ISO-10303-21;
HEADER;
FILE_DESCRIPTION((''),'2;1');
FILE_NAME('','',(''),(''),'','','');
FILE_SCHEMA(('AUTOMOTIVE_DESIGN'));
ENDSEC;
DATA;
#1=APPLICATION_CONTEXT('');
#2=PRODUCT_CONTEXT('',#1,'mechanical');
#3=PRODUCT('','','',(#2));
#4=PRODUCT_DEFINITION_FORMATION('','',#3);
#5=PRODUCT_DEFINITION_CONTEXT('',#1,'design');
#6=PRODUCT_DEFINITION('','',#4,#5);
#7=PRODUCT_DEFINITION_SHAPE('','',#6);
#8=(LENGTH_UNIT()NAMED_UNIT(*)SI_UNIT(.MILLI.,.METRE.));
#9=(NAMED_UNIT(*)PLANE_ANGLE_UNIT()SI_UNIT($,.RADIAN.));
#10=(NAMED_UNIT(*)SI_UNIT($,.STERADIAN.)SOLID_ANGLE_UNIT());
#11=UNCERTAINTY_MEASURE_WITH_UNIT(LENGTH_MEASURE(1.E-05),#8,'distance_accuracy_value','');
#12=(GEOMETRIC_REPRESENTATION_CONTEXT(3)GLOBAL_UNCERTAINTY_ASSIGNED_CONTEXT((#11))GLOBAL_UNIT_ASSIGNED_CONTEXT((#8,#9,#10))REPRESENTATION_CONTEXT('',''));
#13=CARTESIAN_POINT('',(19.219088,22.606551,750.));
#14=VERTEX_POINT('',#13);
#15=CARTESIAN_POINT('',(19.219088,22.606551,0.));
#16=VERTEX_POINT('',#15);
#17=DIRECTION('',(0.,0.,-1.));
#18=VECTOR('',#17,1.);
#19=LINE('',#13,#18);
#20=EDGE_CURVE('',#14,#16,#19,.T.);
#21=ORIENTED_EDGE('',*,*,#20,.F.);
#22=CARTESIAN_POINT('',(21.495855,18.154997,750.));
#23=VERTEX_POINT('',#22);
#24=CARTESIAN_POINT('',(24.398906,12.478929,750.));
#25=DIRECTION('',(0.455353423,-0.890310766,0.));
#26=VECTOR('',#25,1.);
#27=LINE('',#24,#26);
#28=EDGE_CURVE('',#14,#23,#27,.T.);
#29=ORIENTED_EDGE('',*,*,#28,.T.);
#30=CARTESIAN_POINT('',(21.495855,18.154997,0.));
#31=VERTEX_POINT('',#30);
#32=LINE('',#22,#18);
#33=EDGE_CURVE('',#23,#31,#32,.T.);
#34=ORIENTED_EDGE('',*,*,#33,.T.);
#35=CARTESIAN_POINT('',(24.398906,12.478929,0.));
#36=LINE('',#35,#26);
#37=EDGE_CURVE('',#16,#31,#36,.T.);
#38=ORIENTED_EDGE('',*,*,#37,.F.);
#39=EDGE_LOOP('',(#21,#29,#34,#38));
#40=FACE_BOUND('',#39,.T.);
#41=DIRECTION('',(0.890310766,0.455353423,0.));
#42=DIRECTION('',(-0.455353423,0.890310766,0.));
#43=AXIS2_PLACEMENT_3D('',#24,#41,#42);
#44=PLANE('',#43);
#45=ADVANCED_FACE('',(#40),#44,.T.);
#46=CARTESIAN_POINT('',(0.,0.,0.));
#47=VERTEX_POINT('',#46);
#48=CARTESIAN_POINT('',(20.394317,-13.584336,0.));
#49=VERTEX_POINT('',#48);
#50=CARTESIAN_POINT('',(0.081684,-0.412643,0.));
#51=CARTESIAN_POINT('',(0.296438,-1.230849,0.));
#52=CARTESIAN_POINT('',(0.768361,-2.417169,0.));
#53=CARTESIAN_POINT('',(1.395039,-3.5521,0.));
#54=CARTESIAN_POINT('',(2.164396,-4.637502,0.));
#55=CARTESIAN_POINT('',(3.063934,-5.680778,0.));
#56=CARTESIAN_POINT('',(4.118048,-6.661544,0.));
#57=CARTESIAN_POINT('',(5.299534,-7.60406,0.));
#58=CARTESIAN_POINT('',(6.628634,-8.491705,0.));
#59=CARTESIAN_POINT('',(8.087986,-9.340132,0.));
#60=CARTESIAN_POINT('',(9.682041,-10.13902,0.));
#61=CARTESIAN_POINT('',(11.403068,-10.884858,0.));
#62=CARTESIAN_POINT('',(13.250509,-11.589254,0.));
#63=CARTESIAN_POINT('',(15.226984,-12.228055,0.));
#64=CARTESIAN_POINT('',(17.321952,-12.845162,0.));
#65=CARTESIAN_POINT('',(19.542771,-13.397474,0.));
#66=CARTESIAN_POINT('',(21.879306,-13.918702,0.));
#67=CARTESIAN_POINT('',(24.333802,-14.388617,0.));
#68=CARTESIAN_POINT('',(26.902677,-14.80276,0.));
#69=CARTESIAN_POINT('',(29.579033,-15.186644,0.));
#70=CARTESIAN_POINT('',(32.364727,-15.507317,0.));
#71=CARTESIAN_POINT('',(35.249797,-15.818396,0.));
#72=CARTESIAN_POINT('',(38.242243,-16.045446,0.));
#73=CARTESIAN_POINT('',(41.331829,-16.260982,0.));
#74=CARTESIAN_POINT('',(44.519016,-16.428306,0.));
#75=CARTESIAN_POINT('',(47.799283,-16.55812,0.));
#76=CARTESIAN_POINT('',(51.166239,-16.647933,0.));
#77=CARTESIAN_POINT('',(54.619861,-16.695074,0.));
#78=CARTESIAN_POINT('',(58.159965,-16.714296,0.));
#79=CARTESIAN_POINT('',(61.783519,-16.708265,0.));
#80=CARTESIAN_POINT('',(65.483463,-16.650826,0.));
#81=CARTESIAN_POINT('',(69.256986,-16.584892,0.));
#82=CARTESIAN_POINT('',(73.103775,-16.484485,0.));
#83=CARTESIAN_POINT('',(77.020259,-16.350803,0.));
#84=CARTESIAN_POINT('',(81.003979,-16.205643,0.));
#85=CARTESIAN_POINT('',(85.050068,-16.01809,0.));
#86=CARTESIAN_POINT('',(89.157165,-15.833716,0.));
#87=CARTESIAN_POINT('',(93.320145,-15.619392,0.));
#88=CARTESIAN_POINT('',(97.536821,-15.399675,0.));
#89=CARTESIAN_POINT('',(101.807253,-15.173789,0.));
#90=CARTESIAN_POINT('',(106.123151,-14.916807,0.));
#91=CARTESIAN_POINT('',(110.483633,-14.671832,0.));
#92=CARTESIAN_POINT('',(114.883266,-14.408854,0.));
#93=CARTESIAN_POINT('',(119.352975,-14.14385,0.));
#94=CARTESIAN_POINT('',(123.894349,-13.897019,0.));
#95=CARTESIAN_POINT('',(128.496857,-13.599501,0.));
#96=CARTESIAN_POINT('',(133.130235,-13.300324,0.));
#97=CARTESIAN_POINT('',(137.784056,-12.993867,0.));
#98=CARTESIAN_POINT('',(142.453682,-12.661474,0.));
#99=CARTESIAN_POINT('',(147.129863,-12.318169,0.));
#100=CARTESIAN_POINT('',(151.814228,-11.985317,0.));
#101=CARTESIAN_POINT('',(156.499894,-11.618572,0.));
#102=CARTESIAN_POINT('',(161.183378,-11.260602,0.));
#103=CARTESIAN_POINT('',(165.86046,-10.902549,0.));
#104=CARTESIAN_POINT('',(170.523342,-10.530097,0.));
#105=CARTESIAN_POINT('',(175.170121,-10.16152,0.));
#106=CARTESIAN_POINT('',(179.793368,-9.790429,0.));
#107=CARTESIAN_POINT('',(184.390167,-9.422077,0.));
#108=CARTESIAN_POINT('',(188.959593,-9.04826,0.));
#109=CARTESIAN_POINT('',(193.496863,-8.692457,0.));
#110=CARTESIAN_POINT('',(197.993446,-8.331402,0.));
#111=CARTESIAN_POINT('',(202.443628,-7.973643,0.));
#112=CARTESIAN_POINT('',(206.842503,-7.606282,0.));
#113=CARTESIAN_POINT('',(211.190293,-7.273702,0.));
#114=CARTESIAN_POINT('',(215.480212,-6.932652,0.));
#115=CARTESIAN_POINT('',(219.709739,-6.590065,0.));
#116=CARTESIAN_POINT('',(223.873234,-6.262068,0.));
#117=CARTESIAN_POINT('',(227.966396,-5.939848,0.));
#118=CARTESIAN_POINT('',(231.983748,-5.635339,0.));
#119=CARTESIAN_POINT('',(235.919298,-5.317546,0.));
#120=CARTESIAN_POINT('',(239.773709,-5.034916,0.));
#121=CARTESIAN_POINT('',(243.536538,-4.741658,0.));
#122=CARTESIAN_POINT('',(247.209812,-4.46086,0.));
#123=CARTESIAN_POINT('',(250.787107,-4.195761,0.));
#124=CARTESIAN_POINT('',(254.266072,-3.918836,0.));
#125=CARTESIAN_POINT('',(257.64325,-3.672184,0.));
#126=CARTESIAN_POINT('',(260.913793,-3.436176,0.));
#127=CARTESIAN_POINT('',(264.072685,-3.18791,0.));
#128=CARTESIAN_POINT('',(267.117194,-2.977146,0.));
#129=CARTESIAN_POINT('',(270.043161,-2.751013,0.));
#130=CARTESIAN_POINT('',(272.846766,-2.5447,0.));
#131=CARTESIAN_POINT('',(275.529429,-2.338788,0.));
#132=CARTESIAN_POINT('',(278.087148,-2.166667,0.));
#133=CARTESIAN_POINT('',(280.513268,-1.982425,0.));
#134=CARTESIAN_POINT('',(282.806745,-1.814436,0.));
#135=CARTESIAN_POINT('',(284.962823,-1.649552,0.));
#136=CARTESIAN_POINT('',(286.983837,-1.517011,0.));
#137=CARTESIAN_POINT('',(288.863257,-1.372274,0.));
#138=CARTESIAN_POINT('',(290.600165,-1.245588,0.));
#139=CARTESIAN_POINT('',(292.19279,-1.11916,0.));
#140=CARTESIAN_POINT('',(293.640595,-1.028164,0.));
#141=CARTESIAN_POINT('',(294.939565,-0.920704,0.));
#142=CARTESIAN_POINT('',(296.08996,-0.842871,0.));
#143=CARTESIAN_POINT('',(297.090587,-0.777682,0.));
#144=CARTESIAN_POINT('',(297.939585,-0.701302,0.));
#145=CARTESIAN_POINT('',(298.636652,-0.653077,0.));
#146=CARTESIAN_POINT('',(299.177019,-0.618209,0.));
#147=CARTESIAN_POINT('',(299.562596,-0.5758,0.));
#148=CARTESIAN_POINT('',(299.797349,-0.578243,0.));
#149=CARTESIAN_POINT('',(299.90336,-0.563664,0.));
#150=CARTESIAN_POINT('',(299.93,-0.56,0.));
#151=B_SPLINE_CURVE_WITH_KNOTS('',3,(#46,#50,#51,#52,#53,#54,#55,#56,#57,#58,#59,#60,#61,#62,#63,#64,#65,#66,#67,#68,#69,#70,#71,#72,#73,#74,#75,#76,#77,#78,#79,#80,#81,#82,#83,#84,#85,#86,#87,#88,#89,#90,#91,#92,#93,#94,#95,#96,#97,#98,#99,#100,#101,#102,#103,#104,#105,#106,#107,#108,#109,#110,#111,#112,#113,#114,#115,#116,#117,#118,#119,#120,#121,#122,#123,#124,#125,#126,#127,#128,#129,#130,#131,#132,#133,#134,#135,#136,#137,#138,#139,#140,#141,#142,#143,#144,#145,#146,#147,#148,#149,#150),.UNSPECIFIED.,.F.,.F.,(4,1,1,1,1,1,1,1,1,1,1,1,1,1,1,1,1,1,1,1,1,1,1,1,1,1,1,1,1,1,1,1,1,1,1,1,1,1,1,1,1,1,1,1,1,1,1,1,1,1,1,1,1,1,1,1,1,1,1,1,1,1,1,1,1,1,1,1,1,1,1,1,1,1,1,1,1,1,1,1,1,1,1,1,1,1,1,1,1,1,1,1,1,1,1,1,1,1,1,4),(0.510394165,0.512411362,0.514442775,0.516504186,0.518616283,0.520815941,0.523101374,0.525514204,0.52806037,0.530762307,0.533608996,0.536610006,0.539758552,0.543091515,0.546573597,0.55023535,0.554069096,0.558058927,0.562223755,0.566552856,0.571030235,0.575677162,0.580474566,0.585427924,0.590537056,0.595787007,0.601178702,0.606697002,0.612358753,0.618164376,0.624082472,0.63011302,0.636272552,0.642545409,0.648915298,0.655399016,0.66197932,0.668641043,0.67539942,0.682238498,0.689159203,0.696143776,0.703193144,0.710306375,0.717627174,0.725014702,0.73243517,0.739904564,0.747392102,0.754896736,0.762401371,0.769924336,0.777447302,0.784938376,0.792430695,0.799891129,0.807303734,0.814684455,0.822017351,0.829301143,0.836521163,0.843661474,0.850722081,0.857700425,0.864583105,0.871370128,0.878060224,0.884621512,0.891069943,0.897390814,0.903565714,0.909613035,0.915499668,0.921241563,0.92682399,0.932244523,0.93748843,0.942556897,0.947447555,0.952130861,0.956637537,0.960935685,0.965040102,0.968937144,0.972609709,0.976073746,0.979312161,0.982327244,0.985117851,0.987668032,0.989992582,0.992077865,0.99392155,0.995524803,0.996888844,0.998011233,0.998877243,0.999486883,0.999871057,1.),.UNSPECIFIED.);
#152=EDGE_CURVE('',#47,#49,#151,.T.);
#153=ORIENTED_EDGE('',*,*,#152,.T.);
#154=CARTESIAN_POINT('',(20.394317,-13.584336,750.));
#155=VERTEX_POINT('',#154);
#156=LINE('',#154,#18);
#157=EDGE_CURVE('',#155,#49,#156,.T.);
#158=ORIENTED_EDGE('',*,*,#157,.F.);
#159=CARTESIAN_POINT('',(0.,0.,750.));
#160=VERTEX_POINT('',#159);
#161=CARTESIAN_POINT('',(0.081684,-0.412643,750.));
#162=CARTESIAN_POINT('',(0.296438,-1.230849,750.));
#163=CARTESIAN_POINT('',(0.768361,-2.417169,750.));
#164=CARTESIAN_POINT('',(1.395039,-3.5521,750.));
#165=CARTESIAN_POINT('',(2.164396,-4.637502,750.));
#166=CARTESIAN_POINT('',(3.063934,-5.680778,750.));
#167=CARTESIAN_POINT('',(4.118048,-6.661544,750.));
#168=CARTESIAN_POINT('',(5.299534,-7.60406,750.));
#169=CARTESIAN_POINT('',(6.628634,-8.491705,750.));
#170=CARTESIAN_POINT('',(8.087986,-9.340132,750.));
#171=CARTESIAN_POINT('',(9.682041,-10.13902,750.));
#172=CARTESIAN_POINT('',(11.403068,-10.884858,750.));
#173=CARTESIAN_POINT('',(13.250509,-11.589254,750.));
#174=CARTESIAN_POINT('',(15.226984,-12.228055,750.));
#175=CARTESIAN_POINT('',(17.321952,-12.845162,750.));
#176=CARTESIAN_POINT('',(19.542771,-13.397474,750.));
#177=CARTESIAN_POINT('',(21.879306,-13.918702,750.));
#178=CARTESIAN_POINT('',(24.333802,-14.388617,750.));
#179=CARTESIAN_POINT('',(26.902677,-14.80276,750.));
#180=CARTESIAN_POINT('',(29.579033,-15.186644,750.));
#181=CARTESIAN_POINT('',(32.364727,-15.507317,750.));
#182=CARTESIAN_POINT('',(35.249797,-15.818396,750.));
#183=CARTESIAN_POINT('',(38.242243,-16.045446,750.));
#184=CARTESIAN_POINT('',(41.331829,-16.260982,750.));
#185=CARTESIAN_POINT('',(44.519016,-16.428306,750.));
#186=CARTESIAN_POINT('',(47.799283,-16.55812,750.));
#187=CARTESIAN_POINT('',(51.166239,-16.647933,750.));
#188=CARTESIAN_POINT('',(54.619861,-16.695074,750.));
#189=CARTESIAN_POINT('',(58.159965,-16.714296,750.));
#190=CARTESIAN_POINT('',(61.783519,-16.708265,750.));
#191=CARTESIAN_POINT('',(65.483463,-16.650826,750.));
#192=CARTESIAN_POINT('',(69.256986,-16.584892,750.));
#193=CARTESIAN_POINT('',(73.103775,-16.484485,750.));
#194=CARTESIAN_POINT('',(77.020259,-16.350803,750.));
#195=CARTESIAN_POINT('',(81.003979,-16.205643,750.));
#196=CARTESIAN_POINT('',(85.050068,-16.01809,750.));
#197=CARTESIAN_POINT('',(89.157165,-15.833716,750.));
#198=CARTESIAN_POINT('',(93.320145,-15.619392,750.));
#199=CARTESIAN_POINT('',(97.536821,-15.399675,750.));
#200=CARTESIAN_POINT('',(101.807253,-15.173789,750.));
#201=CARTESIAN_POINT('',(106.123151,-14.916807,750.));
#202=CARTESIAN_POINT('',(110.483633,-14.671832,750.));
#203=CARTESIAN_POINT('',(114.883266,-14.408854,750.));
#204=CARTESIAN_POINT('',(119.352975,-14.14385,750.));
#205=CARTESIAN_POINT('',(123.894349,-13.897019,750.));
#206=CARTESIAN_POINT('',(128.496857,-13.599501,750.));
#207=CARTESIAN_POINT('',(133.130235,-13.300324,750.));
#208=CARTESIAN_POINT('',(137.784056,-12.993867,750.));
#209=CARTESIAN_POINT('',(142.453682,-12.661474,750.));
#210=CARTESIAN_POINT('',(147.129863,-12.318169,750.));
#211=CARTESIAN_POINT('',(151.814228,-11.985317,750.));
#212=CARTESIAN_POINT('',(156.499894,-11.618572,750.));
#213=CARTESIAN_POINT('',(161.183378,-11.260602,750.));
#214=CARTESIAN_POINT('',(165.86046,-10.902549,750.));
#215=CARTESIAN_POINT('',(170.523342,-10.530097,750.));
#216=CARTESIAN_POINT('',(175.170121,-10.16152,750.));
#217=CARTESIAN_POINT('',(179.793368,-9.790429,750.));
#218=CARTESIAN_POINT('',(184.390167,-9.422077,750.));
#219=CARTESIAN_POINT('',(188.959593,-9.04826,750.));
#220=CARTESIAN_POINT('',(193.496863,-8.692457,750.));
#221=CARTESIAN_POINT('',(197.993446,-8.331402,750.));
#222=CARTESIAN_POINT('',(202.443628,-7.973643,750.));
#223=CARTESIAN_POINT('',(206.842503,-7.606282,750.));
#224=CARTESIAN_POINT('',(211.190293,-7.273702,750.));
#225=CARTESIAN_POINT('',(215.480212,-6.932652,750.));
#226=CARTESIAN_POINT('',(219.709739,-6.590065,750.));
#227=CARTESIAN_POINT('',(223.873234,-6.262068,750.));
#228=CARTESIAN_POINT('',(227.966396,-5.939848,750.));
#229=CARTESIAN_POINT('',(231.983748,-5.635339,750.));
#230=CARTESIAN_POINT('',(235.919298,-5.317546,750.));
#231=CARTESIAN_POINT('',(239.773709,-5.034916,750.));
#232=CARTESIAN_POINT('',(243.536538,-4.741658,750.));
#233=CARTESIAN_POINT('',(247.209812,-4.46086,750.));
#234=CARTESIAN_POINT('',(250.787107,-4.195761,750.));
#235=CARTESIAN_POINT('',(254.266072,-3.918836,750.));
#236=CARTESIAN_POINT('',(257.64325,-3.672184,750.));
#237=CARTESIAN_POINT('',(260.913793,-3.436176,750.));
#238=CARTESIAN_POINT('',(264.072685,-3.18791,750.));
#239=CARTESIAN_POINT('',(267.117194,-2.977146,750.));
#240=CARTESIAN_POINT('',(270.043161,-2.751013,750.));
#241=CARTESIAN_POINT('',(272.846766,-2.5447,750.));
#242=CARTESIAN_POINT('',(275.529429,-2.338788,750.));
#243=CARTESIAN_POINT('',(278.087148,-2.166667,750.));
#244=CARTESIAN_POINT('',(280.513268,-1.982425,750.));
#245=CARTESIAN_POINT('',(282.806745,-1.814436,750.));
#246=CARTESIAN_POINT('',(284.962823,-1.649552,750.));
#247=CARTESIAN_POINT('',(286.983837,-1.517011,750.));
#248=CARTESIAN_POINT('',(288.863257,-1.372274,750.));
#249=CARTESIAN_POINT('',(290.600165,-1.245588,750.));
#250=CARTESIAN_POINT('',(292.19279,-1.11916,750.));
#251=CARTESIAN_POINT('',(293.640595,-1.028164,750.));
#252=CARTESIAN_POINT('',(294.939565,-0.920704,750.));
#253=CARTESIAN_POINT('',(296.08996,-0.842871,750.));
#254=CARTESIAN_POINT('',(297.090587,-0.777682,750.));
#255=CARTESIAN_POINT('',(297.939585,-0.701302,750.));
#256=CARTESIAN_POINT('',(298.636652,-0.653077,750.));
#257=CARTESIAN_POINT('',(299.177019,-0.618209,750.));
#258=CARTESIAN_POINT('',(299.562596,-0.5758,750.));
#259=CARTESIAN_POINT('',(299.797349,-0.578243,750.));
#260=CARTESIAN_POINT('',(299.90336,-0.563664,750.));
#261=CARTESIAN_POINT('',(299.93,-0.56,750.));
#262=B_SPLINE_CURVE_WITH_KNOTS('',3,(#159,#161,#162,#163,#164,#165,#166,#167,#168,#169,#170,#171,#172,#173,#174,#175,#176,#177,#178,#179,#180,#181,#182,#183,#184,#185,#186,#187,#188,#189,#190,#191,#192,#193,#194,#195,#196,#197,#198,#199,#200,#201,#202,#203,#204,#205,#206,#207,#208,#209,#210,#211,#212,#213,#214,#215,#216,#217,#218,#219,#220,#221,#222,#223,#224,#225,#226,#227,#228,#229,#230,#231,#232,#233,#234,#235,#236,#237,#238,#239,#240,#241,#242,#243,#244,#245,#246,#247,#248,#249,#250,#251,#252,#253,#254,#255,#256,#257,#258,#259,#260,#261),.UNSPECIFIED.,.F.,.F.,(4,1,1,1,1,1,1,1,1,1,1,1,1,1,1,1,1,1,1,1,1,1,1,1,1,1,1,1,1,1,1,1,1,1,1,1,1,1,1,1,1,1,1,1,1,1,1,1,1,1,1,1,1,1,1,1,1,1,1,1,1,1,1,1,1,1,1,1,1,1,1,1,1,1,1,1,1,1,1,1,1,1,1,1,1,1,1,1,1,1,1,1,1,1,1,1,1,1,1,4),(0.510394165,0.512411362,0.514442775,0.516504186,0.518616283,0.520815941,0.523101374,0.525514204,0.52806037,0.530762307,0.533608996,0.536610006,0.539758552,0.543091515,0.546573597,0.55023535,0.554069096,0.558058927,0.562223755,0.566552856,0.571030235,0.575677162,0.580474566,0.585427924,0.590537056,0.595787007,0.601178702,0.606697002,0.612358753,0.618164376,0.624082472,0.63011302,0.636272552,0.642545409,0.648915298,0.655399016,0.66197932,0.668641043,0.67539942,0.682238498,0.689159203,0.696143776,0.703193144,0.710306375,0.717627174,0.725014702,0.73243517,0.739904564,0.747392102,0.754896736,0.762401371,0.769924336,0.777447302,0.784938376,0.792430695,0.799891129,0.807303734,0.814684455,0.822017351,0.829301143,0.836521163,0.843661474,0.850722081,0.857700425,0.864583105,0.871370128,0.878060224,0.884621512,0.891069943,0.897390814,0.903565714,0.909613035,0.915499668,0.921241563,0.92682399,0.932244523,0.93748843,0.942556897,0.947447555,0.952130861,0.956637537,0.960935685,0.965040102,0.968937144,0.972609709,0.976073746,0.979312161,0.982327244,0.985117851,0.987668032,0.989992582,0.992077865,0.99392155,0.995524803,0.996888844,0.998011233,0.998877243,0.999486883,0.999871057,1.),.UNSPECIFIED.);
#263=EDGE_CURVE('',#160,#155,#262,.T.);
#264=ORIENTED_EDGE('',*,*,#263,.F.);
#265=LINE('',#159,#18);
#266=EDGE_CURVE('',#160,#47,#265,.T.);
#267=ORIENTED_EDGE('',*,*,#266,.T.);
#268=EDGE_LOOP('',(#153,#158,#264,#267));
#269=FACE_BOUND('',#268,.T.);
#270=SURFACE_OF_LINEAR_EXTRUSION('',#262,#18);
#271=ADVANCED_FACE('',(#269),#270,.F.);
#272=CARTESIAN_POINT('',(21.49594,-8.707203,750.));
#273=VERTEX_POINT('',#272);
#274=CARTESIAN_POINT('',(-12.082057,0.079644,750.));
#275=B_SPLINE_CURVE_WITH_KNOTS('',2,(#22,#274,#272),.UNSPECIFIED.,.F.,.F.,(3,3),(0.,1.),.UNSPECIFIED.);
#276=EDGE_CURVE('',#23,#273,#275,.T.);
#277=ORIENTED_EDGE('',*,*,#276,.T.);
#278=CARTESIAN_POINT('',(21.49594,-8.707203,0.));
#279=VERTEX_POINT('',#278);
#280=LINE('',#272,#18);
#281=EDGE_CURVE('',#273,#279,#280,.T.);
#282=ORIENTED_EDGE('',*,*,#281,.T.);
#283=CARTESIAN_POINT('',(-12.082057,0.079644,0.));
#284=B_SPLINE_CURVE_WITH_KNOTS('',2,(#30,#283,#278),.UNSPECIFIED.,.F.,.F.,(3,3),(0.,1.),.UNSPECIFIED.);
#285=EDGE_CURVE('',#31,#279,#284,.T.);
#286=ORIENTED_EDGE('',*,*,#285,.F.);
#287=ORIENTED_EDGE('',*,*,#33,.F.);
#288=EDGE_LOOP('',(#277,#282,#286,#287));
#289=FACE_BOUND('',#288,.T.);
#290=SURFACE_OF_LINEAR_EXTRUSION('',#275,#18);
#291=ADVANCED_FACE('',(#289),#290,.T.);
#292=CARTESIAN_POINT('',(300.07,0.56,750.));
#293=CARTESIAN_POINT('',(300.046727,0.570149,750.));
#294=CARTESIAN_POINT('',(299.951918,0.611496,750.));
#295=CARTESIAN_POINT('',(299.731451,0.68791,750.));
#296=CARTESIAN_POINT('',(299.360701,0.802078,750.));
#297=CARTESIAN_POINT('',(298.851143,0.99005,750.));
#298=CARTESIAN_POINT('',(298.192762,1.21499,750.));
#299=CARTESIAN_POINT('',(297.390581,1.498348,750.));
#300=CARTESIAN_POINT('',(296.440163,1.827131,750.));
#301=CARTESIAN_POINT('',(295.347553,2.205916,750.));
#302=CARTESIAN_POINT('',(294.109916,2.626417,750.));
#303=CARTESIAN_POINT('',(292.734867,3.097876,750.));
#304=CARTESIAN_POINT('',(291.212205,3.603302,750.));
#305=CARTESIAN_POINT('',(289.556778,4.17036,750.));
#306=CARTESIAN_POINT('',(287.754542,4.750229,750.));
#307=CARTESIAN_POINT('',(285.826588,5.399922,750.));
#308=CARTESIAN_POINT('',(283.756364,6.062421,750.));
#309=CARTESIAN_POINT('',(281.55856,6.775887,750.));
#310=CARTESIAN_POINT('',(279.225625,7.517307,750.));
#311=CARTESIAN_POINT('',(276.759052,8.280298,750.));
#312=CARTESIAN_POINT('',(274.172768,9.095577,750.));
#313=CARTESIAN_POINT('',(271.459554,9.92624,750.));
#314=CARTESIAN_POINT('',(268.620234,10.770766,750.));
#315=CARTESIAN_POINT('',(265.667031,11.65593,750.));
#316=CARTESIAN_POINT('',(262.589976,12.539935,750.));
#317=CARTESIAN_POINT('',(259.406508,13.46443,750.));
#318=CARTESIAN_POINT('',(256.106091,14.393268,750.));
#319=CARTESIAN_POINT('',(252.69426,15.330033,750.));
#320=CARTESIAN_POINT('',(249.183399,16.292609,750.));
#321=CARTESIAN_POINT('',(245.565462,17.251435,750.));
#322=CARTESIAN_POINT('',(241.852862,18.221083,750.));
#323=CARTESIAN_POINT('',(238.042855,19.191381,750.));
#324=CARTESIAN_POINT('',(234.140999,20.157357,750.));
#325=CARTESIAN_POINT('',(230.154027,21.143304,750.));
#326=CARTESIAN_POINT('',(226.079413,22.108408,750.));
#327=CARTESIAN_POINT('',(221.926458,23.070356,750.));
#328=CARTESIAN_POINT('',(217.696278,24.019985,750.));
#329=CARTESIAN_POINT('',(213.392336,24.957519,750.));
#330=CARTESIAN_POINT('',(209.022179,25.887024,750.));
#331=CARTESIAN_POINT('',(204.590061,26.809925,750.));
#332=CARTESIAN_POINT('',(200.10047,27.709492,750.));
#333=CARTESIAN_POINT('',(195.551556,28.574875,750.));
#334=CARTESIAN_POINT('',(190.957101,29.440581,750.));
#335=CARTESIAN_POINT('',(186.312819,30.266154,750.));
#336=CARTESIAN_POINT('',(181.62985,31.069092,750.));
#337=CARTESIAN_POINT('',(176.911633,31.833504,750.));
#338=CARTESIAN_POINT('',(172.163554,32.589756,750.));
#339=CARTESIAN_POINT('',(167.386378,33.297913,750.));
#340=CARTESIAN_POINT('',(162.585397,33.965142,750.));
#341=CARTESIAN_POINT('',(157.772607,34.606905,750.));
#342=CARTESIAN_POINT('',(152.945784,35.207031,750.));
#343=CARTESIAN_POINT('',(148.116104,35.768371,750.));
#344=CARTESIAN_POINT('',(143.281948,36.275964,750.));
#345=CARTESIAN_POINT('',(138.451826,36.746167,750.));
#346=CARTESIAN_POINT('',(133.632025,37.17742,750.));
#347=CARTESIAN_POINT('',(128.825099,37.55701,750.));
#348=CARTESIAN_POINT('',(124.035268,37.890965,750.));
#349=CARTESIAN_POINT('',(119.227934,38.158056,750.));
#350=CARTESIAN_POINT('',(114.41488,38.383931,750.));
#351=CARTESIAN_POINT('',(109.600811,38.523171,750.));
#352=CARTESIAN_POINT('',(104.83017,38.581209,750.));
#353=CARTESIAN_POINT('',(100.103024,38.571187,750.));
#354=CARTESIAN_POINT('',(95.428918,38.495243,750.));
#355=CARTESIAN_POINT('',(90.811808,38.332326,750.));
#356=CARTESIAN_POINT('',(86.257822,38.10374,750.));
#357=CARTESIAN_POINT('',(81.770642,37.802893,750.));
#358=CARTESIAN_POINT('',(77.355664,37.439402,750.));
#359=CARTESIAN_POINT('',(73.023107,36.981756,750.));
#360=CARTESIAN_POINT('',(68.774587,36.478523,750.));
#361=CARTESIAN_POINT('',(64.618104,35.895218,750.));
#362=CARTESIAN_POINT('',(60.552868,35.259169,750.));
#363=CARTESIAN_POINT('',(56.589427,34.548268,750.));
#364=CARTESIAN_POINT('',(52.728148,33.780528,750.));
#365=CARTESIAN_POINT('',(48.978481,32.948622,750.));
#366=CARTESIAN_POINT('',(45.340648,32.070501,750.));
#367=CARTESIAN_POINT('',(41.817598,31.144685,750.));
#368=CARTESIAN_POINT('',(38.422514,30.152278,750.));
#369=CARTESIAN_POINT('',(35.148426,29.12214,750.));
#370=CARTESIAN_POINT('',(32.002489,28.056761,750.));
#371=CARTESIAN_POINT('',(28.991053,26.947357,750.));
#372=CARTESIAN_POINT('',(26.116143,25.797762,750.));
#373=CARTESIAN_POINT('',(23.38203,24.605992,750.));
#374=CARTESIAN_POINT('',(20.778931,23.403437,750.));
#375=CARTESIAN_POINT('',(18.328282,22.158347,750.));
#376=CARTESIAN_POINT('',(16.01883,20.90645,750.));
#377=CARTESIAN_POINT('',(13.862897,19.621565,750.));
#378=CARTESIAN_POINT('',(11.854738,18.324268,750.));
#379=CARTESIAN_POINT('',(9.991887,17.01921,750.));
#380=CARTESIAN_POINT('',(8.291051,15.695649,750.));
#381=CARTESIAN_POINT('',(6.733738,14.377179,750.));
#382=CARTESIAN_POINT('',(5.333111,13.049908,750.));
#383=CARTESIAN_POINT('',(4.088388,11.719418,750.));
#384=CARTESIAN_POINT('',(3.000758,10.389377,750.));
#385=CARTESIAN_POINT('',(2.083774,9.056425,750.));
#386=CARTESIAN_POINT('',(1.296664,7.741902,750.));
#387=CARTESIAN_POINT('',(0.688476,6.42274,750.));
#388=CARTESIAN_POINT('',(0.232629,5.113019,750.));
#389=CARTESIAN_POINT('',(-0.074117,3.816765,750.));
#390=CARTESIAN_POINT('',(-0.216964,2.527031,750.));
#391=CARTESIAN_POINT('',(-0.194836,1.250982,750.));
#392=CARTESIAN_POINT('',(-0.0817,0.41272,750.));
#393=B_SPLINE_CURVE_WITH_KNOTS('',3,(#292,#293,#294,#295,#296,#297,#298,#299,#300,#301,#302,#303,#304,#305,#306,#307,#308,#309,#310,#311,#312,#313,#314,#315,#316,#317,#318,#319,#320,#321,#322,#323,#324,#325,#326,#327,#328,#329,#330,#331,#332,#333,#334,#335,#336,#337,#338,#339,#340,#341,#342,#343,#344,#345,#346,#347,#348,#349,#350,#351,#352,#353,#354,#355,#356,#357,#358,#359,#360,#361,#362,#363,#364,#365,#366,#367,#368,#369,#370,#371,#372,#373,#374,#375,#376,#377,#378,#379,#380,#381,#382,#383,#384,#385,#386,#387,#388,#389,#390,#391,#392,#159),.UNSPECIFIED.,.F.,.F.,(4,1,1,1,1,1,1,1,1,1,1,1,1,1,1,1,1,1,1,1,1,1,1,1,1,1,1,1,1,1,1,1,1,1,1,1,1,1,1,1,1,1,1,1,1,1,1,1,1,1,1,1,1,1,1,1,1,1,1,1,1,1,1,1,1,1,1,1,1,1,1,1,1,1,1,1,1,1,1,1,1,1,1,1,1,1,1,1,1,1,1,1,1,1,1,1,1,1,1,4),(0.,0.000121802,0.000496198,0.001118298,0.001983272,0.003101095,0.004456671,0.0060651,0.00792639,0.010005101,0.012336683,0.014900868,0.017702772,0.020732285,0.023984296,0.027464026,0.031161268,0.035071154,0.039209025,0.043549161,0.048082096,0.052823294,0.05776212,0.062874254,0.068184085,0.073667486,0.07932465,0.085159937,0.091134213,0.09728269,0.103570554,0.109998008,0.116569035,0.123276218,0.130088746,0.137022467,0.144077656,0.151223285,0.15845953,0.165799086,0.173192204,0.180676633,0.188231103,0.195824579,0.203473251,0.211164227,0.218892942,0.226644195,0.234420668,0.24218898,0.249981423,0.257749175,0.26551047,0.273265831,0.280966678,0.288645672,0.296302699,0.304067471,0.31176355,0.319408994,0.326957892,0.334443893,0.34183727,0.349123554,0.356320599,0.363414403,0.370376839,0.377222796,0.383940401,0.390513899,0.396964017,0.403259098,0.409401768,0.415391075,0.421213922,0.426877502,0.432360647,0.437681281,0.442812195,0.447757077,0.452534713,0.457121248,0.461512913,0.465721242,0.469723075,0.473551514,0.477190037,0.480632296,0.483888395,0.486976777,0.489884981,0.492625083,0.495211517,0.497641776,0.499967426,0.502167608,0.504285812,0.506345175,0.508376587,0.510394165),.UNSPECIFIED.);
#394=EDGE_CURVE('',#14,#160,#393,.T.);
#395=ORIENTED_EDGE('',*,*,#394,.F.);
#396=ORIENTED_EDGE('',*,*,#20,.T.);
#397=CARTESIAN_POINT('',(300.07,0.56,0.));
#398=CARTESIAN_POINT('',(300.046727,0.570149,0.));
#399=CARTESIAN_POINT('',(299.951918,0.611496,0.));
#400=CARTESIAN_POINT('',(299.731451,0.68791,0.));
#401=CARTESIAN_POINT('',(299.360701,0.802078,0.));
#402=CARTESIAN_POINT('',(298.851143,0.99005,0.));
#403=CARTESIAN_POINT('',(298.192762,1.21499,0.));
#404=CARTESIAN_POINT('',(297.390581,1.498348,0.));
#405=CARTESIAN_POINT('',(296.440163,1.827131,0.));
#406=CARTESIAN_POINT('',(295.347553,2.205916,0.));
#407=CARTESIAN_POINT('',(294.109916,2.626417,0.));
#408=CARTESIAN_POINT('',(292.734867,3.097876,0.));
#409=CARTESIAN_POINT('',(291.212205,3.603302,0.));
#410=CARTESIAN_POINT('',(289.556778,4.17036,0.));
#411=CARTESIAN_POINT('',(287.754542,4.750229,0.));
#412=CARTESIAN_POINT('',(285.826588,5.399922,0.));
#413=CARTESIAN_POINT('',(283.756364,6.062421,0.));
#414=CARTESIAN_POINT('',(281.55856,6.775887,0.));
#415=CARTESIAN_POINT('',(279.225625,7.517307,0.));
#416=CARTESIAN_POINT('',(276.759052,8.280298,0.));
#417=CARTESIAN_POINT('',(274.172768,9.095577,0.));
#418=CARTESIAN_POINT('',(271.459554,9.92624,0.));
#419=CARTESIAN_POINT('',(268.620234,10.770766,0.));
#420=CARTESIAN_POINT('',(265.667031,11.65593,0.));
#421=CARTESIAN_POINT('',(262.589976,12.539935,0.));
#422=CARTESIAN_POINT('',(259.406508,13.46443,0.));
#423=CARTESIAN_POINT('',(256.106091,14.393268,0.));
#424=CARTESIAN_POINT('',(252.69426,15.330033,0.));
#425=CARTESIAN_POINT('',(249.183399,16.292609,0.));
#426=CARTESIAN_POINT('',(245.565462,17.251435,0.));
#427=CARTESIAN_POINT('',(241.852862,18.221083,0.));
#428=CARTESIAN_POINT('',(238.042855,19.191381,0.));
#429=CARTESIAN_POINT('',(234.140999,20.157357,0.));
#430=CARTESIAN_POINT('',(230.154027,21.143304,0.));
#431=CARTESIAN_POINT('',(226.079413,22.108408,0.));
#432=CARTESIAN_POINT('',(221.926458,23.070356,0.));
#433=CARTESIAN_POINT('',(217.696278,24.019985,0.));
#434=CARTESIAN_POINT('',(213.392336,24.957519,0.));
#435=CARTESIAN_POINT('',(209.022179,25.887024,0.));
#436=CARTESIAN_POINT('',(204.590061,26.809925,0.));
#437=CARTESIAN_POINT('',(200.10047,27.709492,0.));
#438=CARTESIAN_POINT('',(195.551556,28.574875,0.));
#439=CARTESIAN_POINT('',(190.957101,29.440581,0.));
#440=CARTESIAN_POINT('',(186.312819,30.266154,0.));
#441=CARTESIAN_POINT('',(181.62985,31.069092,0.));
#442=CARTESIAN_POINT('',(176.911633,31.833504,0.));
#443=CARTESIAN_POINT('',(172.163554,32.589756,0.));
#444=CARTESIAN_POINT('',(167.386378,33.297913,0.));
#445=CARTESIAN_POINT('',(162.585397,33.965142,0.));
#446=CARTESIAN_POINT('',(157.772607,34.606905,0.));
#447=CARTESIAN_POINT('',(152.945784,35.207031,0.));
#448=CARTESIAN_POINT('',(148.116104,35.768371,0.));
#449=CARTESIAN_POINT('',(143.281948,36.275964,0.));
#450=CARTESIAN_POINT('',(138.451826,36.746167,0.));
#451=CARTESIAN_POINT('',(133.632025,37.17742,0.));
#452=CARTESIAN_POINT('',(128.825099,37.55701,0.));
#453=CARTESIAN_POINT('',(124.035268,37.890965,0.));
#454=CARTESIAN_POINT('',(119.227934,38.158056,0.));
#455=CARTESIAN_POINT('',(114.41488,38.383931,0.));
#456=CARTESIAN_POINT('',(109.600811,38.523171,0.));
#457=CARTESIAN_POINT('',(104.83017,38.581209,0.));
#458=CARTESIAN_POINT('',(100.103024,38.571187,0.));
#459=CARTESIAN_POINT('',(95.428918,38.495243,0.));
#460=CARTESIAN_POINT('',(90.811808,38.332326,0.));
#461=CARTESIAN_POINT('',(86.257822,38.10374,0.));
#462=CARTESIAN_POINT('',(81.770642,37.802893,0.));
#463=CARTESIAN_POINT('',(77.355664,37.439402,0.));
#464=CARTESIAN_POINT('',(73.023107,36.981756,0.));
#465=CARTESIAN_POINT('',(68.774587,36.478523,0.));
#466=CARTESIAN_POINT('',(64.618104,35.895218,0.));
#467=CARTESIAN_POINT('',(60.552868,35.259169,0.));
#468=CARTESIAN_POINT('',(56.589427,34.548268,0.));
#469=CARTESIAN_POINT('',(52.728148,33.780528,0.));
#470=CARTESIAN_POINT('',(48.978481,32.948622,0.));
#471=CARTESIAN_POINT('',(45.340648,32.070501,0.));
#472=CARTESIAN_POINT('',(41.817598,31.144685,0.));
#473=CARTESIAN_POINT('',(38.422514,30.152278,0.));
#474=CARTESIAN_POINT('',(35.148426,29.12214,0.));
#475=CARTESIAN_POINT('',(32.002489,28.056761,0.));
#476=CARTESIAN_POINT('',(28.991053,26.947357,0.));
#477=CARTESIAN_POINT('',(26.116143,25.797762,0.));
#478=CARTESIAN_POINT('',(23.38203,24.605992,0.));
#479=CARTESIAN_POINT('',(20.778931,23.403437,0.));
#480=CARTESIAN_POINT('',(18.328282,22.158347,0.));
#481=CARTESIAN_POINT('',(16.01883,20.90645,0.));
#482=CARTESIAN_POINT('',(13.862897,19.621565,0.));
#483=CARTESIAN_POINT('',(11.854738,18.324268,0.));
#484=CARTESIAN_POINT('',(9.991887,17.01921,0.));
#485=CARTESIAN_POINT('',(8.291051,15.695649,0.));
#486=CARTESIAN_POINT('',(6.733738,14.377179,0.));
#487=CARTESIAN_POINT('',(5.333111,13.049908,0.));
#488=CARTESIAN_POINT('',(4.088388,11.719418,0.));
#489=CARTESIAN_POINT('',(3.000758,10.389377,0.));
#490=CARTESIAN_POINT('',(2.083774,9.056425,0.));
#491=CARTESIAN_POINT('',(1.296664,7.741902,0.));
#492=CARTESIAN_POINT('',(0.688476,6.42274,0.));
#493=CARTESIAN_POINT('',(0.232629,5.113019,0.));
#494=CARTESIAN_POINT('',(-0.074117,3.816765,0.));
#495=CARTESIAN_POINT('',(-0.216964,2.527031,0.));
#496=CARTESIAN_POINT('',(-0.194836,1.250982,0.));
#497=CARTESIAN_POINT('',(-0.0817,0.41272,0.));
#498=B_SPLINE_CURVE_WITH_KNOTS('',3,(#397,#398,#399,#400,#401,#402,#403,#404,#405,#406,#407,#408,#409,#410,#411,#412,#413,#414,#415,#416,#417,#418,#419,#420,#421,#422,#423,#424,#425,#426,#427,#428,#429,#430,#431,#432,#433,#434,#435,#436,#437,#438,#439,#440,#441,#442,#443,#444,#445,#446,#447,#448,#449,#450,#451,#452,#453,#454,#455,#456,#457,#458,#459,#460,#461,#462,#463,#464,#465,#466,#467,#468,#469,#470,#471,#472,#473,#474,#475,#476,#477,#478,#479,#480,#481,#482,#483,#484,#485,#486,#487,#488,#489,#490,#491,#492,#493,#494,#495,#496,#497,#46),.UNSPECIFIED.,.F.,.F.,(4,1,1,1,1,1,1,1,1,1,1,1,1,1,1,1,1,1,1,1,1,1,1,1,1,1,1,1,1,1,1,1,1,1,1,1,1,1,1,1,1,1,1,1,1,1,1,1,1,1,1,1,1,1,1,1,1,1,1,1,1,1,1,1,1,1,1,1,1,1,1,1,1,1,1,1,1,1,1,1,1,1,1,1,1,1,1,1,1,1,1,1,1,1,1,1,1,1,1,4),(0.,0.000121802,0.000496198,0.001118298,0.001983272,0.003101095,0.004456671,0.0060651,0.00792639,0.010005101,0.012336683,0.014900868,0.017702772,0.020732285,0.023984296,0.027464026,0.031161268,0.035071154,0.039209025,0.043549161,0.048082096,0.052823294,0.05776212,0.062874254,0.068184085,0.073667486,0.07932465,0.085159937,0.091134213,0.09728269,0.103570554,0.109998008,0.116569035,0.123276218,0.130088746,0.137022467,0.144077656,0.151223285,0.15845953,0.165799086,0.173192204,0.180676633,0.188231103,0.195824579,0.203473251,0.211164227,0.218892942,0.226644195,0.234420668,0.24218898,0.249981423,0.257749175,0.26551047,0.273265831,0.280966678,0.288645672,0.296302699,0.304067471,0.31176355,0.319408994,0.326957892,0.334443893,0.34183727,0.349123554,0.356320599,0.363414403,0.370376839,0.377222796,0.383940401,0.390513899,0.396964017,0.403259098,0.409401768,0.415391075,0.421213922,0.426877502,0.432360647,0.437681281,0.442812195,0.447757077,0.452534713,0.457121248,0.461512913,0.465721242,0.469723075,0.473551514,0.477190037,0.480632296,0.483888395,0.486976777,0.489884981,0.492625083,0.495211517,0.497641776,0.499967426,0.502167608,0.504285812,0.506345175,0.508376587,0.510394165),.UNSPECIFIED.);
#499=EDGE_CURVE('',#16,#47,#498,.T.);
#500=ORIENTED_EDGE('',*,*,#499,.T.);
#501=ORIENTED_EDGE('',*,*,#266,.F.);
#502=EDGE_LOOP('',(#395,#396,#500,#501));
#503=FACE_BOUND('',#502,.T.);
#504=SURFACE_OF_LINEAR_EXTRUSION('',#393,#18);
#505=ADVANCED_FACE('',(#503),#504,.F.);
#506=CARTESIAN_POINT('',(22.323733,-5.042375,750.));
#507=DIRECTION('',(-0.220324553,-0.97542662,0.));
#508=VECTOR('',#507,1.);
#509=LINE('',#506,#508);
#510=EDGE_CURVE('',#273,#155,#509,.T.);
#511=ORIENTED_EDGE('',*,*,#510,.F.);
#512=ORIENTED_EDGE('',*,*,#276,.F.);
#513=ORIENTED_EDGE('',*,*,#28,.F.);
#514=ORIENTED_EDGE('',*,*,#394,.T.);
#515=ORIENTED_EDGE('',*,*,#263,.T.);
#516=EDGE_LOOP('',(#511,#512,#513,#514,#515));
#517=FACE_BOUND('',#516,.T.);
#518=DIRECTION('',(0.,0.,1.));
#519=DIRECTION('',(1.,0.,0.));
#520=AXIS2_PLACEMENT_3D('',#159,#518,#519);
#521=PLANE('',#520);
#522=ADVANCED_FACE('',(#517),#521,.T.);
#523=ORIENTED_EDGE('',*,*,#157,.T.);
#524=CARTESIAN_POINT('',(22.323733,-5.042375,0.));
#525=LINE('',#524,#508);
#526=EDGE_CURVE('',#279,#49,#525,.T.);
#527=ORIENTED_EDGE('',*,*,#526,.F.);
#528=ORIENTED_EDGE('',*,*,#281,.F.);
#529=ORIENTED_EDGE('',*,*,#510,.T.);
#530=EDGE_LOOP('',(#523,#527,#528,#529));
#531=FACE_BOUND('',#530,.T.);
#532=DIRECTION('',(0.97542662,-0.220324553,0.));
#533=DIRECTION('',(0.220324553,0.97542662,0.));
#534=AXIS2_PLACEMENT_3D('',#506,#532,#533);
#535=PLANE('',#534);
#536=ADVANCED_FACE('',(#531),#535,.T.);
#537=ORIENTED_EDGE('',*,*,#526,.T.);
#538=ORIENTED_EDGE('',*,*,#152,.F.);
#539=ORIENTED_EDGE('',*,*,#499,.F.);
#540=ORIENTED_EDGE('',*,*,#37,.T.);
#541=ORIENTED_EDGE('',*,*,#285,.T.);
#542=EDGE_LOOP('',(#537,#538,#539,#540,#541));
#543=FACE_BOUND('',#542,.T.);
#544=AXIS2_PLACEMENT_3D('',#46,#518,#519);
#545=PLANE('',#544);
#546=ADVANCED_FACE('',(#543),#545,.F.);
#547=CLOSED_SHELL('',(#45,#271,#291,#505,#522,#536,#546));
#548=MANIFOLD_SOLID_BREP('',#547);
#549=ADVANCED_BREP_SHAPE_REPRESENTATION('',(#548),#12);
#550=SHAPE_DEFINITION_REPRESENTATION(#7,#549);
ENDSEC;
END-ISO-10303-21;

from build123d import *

# Parameters (mm, degrees)
BOSS_EXTRUDE1_DEPTH = 750


with BuildPart() as part:
    # Master sketch-Wing Geometry Master Sketc → Boss-Extrude1 (new body)
    with BuildSketch(Plane.XY):
        with BuildLine():
            Line((21.49585547, 18.154997053), (19.219088354, 22.606550883))
            add(Edge.make_bspline(
                [(19.219088354, 22.606550883), (18.91184929, 22.44941209), (17.826873119, 21.886545621), (16.018830268, 20.906450267), (13.862897373, 19.621565208), (11.854738026, 18.324267668), (9.991886559, 17.019209829), (8.29105075, 15.695648594), (6.733737603, 14.377178643), (5.333111428, 13.049907652), (4.088387896, 11.719417741), (3.000757578, 10.389377073), (2.083773717, 9.056425431), (1.296663895, 7.741902015), (0.688475961, 6.422740397), (0.23262927, 5.113019434), (-0.074116898, 3.816764785), (-0.216963809, 2.527030734), (-0.194835649, 1.250981582), (-0.081699689, 0.412720493), (1e-09, -3e-09)],
                knots=[0.459857253, 0.459857253, 0.459857253, 0.459857253, 0.461512913, 0.465721242, 0.469723075, 0.473551514, 0.477190037, 0.480632296, 0.483888395, 0.486976777, 0.489884981, 0.492625083, 0.495211517, 0.497641776, 0.499967426, 0.502167608, 0.504285812, 0.506345175, 0.508376587, 0.510394165, 0.510394165, 0.510394165, 0.510394165], degree=3))
            add(Edge.make_bspline(
                [(1e-09, -3e-09), (0.081684287, -0.412642687), (0.296437792, -1.230848824), (0.768361471, -2.417168941), (1.395039231, -3.55210015), (2.164395635, -4.637502069), (3.063933709, -5.680778391), (4.118047763, -6.661544162), (5.299534363, -7.604059656), (6.628634498, -8.491704765), (8.087985719, -9.340131837), (9.682040573, -10.139020116), (11.403068092, -10.884858395), (13.250509034, -11.589254087), (15.22698417, -12.228055044), (17.321952248, -12.8451616), (19.060832937, -13.277616891), (20.099218455, -13.517680403), (20.394317181, -13.584335848)],
                knots=[0.510394165, 0.510394165, 0.510394165, 0.510394165, 0.512411362, 0.514442775, 0.516504186, 0.518616283, 0.520815941, 0.523101374, 0.525514204, 0.52806037, 0.530762307, 0.533608996, 0.536610006, 0.539758552, 0.543091515, 0.546573597, 0.55023535, 0.551686861, 0.551686861, 0.551686861, 0.551686861], degree=3))
            Line((20.394317181, -13.584335848), (21.495939944, -8.707202746))
            add(Edge.make_bspline(
                [(21.49585547, 18.154997053), (-12.082056869, 0.079644189), (21.495939944, -8.707202746)],
                knots=[0, 0, 0, 1, 1, 1], degree=2))
        make_face()
    extrude(amount=BOSS_EXTRUDE1_DEPTH)


solid = part.part
